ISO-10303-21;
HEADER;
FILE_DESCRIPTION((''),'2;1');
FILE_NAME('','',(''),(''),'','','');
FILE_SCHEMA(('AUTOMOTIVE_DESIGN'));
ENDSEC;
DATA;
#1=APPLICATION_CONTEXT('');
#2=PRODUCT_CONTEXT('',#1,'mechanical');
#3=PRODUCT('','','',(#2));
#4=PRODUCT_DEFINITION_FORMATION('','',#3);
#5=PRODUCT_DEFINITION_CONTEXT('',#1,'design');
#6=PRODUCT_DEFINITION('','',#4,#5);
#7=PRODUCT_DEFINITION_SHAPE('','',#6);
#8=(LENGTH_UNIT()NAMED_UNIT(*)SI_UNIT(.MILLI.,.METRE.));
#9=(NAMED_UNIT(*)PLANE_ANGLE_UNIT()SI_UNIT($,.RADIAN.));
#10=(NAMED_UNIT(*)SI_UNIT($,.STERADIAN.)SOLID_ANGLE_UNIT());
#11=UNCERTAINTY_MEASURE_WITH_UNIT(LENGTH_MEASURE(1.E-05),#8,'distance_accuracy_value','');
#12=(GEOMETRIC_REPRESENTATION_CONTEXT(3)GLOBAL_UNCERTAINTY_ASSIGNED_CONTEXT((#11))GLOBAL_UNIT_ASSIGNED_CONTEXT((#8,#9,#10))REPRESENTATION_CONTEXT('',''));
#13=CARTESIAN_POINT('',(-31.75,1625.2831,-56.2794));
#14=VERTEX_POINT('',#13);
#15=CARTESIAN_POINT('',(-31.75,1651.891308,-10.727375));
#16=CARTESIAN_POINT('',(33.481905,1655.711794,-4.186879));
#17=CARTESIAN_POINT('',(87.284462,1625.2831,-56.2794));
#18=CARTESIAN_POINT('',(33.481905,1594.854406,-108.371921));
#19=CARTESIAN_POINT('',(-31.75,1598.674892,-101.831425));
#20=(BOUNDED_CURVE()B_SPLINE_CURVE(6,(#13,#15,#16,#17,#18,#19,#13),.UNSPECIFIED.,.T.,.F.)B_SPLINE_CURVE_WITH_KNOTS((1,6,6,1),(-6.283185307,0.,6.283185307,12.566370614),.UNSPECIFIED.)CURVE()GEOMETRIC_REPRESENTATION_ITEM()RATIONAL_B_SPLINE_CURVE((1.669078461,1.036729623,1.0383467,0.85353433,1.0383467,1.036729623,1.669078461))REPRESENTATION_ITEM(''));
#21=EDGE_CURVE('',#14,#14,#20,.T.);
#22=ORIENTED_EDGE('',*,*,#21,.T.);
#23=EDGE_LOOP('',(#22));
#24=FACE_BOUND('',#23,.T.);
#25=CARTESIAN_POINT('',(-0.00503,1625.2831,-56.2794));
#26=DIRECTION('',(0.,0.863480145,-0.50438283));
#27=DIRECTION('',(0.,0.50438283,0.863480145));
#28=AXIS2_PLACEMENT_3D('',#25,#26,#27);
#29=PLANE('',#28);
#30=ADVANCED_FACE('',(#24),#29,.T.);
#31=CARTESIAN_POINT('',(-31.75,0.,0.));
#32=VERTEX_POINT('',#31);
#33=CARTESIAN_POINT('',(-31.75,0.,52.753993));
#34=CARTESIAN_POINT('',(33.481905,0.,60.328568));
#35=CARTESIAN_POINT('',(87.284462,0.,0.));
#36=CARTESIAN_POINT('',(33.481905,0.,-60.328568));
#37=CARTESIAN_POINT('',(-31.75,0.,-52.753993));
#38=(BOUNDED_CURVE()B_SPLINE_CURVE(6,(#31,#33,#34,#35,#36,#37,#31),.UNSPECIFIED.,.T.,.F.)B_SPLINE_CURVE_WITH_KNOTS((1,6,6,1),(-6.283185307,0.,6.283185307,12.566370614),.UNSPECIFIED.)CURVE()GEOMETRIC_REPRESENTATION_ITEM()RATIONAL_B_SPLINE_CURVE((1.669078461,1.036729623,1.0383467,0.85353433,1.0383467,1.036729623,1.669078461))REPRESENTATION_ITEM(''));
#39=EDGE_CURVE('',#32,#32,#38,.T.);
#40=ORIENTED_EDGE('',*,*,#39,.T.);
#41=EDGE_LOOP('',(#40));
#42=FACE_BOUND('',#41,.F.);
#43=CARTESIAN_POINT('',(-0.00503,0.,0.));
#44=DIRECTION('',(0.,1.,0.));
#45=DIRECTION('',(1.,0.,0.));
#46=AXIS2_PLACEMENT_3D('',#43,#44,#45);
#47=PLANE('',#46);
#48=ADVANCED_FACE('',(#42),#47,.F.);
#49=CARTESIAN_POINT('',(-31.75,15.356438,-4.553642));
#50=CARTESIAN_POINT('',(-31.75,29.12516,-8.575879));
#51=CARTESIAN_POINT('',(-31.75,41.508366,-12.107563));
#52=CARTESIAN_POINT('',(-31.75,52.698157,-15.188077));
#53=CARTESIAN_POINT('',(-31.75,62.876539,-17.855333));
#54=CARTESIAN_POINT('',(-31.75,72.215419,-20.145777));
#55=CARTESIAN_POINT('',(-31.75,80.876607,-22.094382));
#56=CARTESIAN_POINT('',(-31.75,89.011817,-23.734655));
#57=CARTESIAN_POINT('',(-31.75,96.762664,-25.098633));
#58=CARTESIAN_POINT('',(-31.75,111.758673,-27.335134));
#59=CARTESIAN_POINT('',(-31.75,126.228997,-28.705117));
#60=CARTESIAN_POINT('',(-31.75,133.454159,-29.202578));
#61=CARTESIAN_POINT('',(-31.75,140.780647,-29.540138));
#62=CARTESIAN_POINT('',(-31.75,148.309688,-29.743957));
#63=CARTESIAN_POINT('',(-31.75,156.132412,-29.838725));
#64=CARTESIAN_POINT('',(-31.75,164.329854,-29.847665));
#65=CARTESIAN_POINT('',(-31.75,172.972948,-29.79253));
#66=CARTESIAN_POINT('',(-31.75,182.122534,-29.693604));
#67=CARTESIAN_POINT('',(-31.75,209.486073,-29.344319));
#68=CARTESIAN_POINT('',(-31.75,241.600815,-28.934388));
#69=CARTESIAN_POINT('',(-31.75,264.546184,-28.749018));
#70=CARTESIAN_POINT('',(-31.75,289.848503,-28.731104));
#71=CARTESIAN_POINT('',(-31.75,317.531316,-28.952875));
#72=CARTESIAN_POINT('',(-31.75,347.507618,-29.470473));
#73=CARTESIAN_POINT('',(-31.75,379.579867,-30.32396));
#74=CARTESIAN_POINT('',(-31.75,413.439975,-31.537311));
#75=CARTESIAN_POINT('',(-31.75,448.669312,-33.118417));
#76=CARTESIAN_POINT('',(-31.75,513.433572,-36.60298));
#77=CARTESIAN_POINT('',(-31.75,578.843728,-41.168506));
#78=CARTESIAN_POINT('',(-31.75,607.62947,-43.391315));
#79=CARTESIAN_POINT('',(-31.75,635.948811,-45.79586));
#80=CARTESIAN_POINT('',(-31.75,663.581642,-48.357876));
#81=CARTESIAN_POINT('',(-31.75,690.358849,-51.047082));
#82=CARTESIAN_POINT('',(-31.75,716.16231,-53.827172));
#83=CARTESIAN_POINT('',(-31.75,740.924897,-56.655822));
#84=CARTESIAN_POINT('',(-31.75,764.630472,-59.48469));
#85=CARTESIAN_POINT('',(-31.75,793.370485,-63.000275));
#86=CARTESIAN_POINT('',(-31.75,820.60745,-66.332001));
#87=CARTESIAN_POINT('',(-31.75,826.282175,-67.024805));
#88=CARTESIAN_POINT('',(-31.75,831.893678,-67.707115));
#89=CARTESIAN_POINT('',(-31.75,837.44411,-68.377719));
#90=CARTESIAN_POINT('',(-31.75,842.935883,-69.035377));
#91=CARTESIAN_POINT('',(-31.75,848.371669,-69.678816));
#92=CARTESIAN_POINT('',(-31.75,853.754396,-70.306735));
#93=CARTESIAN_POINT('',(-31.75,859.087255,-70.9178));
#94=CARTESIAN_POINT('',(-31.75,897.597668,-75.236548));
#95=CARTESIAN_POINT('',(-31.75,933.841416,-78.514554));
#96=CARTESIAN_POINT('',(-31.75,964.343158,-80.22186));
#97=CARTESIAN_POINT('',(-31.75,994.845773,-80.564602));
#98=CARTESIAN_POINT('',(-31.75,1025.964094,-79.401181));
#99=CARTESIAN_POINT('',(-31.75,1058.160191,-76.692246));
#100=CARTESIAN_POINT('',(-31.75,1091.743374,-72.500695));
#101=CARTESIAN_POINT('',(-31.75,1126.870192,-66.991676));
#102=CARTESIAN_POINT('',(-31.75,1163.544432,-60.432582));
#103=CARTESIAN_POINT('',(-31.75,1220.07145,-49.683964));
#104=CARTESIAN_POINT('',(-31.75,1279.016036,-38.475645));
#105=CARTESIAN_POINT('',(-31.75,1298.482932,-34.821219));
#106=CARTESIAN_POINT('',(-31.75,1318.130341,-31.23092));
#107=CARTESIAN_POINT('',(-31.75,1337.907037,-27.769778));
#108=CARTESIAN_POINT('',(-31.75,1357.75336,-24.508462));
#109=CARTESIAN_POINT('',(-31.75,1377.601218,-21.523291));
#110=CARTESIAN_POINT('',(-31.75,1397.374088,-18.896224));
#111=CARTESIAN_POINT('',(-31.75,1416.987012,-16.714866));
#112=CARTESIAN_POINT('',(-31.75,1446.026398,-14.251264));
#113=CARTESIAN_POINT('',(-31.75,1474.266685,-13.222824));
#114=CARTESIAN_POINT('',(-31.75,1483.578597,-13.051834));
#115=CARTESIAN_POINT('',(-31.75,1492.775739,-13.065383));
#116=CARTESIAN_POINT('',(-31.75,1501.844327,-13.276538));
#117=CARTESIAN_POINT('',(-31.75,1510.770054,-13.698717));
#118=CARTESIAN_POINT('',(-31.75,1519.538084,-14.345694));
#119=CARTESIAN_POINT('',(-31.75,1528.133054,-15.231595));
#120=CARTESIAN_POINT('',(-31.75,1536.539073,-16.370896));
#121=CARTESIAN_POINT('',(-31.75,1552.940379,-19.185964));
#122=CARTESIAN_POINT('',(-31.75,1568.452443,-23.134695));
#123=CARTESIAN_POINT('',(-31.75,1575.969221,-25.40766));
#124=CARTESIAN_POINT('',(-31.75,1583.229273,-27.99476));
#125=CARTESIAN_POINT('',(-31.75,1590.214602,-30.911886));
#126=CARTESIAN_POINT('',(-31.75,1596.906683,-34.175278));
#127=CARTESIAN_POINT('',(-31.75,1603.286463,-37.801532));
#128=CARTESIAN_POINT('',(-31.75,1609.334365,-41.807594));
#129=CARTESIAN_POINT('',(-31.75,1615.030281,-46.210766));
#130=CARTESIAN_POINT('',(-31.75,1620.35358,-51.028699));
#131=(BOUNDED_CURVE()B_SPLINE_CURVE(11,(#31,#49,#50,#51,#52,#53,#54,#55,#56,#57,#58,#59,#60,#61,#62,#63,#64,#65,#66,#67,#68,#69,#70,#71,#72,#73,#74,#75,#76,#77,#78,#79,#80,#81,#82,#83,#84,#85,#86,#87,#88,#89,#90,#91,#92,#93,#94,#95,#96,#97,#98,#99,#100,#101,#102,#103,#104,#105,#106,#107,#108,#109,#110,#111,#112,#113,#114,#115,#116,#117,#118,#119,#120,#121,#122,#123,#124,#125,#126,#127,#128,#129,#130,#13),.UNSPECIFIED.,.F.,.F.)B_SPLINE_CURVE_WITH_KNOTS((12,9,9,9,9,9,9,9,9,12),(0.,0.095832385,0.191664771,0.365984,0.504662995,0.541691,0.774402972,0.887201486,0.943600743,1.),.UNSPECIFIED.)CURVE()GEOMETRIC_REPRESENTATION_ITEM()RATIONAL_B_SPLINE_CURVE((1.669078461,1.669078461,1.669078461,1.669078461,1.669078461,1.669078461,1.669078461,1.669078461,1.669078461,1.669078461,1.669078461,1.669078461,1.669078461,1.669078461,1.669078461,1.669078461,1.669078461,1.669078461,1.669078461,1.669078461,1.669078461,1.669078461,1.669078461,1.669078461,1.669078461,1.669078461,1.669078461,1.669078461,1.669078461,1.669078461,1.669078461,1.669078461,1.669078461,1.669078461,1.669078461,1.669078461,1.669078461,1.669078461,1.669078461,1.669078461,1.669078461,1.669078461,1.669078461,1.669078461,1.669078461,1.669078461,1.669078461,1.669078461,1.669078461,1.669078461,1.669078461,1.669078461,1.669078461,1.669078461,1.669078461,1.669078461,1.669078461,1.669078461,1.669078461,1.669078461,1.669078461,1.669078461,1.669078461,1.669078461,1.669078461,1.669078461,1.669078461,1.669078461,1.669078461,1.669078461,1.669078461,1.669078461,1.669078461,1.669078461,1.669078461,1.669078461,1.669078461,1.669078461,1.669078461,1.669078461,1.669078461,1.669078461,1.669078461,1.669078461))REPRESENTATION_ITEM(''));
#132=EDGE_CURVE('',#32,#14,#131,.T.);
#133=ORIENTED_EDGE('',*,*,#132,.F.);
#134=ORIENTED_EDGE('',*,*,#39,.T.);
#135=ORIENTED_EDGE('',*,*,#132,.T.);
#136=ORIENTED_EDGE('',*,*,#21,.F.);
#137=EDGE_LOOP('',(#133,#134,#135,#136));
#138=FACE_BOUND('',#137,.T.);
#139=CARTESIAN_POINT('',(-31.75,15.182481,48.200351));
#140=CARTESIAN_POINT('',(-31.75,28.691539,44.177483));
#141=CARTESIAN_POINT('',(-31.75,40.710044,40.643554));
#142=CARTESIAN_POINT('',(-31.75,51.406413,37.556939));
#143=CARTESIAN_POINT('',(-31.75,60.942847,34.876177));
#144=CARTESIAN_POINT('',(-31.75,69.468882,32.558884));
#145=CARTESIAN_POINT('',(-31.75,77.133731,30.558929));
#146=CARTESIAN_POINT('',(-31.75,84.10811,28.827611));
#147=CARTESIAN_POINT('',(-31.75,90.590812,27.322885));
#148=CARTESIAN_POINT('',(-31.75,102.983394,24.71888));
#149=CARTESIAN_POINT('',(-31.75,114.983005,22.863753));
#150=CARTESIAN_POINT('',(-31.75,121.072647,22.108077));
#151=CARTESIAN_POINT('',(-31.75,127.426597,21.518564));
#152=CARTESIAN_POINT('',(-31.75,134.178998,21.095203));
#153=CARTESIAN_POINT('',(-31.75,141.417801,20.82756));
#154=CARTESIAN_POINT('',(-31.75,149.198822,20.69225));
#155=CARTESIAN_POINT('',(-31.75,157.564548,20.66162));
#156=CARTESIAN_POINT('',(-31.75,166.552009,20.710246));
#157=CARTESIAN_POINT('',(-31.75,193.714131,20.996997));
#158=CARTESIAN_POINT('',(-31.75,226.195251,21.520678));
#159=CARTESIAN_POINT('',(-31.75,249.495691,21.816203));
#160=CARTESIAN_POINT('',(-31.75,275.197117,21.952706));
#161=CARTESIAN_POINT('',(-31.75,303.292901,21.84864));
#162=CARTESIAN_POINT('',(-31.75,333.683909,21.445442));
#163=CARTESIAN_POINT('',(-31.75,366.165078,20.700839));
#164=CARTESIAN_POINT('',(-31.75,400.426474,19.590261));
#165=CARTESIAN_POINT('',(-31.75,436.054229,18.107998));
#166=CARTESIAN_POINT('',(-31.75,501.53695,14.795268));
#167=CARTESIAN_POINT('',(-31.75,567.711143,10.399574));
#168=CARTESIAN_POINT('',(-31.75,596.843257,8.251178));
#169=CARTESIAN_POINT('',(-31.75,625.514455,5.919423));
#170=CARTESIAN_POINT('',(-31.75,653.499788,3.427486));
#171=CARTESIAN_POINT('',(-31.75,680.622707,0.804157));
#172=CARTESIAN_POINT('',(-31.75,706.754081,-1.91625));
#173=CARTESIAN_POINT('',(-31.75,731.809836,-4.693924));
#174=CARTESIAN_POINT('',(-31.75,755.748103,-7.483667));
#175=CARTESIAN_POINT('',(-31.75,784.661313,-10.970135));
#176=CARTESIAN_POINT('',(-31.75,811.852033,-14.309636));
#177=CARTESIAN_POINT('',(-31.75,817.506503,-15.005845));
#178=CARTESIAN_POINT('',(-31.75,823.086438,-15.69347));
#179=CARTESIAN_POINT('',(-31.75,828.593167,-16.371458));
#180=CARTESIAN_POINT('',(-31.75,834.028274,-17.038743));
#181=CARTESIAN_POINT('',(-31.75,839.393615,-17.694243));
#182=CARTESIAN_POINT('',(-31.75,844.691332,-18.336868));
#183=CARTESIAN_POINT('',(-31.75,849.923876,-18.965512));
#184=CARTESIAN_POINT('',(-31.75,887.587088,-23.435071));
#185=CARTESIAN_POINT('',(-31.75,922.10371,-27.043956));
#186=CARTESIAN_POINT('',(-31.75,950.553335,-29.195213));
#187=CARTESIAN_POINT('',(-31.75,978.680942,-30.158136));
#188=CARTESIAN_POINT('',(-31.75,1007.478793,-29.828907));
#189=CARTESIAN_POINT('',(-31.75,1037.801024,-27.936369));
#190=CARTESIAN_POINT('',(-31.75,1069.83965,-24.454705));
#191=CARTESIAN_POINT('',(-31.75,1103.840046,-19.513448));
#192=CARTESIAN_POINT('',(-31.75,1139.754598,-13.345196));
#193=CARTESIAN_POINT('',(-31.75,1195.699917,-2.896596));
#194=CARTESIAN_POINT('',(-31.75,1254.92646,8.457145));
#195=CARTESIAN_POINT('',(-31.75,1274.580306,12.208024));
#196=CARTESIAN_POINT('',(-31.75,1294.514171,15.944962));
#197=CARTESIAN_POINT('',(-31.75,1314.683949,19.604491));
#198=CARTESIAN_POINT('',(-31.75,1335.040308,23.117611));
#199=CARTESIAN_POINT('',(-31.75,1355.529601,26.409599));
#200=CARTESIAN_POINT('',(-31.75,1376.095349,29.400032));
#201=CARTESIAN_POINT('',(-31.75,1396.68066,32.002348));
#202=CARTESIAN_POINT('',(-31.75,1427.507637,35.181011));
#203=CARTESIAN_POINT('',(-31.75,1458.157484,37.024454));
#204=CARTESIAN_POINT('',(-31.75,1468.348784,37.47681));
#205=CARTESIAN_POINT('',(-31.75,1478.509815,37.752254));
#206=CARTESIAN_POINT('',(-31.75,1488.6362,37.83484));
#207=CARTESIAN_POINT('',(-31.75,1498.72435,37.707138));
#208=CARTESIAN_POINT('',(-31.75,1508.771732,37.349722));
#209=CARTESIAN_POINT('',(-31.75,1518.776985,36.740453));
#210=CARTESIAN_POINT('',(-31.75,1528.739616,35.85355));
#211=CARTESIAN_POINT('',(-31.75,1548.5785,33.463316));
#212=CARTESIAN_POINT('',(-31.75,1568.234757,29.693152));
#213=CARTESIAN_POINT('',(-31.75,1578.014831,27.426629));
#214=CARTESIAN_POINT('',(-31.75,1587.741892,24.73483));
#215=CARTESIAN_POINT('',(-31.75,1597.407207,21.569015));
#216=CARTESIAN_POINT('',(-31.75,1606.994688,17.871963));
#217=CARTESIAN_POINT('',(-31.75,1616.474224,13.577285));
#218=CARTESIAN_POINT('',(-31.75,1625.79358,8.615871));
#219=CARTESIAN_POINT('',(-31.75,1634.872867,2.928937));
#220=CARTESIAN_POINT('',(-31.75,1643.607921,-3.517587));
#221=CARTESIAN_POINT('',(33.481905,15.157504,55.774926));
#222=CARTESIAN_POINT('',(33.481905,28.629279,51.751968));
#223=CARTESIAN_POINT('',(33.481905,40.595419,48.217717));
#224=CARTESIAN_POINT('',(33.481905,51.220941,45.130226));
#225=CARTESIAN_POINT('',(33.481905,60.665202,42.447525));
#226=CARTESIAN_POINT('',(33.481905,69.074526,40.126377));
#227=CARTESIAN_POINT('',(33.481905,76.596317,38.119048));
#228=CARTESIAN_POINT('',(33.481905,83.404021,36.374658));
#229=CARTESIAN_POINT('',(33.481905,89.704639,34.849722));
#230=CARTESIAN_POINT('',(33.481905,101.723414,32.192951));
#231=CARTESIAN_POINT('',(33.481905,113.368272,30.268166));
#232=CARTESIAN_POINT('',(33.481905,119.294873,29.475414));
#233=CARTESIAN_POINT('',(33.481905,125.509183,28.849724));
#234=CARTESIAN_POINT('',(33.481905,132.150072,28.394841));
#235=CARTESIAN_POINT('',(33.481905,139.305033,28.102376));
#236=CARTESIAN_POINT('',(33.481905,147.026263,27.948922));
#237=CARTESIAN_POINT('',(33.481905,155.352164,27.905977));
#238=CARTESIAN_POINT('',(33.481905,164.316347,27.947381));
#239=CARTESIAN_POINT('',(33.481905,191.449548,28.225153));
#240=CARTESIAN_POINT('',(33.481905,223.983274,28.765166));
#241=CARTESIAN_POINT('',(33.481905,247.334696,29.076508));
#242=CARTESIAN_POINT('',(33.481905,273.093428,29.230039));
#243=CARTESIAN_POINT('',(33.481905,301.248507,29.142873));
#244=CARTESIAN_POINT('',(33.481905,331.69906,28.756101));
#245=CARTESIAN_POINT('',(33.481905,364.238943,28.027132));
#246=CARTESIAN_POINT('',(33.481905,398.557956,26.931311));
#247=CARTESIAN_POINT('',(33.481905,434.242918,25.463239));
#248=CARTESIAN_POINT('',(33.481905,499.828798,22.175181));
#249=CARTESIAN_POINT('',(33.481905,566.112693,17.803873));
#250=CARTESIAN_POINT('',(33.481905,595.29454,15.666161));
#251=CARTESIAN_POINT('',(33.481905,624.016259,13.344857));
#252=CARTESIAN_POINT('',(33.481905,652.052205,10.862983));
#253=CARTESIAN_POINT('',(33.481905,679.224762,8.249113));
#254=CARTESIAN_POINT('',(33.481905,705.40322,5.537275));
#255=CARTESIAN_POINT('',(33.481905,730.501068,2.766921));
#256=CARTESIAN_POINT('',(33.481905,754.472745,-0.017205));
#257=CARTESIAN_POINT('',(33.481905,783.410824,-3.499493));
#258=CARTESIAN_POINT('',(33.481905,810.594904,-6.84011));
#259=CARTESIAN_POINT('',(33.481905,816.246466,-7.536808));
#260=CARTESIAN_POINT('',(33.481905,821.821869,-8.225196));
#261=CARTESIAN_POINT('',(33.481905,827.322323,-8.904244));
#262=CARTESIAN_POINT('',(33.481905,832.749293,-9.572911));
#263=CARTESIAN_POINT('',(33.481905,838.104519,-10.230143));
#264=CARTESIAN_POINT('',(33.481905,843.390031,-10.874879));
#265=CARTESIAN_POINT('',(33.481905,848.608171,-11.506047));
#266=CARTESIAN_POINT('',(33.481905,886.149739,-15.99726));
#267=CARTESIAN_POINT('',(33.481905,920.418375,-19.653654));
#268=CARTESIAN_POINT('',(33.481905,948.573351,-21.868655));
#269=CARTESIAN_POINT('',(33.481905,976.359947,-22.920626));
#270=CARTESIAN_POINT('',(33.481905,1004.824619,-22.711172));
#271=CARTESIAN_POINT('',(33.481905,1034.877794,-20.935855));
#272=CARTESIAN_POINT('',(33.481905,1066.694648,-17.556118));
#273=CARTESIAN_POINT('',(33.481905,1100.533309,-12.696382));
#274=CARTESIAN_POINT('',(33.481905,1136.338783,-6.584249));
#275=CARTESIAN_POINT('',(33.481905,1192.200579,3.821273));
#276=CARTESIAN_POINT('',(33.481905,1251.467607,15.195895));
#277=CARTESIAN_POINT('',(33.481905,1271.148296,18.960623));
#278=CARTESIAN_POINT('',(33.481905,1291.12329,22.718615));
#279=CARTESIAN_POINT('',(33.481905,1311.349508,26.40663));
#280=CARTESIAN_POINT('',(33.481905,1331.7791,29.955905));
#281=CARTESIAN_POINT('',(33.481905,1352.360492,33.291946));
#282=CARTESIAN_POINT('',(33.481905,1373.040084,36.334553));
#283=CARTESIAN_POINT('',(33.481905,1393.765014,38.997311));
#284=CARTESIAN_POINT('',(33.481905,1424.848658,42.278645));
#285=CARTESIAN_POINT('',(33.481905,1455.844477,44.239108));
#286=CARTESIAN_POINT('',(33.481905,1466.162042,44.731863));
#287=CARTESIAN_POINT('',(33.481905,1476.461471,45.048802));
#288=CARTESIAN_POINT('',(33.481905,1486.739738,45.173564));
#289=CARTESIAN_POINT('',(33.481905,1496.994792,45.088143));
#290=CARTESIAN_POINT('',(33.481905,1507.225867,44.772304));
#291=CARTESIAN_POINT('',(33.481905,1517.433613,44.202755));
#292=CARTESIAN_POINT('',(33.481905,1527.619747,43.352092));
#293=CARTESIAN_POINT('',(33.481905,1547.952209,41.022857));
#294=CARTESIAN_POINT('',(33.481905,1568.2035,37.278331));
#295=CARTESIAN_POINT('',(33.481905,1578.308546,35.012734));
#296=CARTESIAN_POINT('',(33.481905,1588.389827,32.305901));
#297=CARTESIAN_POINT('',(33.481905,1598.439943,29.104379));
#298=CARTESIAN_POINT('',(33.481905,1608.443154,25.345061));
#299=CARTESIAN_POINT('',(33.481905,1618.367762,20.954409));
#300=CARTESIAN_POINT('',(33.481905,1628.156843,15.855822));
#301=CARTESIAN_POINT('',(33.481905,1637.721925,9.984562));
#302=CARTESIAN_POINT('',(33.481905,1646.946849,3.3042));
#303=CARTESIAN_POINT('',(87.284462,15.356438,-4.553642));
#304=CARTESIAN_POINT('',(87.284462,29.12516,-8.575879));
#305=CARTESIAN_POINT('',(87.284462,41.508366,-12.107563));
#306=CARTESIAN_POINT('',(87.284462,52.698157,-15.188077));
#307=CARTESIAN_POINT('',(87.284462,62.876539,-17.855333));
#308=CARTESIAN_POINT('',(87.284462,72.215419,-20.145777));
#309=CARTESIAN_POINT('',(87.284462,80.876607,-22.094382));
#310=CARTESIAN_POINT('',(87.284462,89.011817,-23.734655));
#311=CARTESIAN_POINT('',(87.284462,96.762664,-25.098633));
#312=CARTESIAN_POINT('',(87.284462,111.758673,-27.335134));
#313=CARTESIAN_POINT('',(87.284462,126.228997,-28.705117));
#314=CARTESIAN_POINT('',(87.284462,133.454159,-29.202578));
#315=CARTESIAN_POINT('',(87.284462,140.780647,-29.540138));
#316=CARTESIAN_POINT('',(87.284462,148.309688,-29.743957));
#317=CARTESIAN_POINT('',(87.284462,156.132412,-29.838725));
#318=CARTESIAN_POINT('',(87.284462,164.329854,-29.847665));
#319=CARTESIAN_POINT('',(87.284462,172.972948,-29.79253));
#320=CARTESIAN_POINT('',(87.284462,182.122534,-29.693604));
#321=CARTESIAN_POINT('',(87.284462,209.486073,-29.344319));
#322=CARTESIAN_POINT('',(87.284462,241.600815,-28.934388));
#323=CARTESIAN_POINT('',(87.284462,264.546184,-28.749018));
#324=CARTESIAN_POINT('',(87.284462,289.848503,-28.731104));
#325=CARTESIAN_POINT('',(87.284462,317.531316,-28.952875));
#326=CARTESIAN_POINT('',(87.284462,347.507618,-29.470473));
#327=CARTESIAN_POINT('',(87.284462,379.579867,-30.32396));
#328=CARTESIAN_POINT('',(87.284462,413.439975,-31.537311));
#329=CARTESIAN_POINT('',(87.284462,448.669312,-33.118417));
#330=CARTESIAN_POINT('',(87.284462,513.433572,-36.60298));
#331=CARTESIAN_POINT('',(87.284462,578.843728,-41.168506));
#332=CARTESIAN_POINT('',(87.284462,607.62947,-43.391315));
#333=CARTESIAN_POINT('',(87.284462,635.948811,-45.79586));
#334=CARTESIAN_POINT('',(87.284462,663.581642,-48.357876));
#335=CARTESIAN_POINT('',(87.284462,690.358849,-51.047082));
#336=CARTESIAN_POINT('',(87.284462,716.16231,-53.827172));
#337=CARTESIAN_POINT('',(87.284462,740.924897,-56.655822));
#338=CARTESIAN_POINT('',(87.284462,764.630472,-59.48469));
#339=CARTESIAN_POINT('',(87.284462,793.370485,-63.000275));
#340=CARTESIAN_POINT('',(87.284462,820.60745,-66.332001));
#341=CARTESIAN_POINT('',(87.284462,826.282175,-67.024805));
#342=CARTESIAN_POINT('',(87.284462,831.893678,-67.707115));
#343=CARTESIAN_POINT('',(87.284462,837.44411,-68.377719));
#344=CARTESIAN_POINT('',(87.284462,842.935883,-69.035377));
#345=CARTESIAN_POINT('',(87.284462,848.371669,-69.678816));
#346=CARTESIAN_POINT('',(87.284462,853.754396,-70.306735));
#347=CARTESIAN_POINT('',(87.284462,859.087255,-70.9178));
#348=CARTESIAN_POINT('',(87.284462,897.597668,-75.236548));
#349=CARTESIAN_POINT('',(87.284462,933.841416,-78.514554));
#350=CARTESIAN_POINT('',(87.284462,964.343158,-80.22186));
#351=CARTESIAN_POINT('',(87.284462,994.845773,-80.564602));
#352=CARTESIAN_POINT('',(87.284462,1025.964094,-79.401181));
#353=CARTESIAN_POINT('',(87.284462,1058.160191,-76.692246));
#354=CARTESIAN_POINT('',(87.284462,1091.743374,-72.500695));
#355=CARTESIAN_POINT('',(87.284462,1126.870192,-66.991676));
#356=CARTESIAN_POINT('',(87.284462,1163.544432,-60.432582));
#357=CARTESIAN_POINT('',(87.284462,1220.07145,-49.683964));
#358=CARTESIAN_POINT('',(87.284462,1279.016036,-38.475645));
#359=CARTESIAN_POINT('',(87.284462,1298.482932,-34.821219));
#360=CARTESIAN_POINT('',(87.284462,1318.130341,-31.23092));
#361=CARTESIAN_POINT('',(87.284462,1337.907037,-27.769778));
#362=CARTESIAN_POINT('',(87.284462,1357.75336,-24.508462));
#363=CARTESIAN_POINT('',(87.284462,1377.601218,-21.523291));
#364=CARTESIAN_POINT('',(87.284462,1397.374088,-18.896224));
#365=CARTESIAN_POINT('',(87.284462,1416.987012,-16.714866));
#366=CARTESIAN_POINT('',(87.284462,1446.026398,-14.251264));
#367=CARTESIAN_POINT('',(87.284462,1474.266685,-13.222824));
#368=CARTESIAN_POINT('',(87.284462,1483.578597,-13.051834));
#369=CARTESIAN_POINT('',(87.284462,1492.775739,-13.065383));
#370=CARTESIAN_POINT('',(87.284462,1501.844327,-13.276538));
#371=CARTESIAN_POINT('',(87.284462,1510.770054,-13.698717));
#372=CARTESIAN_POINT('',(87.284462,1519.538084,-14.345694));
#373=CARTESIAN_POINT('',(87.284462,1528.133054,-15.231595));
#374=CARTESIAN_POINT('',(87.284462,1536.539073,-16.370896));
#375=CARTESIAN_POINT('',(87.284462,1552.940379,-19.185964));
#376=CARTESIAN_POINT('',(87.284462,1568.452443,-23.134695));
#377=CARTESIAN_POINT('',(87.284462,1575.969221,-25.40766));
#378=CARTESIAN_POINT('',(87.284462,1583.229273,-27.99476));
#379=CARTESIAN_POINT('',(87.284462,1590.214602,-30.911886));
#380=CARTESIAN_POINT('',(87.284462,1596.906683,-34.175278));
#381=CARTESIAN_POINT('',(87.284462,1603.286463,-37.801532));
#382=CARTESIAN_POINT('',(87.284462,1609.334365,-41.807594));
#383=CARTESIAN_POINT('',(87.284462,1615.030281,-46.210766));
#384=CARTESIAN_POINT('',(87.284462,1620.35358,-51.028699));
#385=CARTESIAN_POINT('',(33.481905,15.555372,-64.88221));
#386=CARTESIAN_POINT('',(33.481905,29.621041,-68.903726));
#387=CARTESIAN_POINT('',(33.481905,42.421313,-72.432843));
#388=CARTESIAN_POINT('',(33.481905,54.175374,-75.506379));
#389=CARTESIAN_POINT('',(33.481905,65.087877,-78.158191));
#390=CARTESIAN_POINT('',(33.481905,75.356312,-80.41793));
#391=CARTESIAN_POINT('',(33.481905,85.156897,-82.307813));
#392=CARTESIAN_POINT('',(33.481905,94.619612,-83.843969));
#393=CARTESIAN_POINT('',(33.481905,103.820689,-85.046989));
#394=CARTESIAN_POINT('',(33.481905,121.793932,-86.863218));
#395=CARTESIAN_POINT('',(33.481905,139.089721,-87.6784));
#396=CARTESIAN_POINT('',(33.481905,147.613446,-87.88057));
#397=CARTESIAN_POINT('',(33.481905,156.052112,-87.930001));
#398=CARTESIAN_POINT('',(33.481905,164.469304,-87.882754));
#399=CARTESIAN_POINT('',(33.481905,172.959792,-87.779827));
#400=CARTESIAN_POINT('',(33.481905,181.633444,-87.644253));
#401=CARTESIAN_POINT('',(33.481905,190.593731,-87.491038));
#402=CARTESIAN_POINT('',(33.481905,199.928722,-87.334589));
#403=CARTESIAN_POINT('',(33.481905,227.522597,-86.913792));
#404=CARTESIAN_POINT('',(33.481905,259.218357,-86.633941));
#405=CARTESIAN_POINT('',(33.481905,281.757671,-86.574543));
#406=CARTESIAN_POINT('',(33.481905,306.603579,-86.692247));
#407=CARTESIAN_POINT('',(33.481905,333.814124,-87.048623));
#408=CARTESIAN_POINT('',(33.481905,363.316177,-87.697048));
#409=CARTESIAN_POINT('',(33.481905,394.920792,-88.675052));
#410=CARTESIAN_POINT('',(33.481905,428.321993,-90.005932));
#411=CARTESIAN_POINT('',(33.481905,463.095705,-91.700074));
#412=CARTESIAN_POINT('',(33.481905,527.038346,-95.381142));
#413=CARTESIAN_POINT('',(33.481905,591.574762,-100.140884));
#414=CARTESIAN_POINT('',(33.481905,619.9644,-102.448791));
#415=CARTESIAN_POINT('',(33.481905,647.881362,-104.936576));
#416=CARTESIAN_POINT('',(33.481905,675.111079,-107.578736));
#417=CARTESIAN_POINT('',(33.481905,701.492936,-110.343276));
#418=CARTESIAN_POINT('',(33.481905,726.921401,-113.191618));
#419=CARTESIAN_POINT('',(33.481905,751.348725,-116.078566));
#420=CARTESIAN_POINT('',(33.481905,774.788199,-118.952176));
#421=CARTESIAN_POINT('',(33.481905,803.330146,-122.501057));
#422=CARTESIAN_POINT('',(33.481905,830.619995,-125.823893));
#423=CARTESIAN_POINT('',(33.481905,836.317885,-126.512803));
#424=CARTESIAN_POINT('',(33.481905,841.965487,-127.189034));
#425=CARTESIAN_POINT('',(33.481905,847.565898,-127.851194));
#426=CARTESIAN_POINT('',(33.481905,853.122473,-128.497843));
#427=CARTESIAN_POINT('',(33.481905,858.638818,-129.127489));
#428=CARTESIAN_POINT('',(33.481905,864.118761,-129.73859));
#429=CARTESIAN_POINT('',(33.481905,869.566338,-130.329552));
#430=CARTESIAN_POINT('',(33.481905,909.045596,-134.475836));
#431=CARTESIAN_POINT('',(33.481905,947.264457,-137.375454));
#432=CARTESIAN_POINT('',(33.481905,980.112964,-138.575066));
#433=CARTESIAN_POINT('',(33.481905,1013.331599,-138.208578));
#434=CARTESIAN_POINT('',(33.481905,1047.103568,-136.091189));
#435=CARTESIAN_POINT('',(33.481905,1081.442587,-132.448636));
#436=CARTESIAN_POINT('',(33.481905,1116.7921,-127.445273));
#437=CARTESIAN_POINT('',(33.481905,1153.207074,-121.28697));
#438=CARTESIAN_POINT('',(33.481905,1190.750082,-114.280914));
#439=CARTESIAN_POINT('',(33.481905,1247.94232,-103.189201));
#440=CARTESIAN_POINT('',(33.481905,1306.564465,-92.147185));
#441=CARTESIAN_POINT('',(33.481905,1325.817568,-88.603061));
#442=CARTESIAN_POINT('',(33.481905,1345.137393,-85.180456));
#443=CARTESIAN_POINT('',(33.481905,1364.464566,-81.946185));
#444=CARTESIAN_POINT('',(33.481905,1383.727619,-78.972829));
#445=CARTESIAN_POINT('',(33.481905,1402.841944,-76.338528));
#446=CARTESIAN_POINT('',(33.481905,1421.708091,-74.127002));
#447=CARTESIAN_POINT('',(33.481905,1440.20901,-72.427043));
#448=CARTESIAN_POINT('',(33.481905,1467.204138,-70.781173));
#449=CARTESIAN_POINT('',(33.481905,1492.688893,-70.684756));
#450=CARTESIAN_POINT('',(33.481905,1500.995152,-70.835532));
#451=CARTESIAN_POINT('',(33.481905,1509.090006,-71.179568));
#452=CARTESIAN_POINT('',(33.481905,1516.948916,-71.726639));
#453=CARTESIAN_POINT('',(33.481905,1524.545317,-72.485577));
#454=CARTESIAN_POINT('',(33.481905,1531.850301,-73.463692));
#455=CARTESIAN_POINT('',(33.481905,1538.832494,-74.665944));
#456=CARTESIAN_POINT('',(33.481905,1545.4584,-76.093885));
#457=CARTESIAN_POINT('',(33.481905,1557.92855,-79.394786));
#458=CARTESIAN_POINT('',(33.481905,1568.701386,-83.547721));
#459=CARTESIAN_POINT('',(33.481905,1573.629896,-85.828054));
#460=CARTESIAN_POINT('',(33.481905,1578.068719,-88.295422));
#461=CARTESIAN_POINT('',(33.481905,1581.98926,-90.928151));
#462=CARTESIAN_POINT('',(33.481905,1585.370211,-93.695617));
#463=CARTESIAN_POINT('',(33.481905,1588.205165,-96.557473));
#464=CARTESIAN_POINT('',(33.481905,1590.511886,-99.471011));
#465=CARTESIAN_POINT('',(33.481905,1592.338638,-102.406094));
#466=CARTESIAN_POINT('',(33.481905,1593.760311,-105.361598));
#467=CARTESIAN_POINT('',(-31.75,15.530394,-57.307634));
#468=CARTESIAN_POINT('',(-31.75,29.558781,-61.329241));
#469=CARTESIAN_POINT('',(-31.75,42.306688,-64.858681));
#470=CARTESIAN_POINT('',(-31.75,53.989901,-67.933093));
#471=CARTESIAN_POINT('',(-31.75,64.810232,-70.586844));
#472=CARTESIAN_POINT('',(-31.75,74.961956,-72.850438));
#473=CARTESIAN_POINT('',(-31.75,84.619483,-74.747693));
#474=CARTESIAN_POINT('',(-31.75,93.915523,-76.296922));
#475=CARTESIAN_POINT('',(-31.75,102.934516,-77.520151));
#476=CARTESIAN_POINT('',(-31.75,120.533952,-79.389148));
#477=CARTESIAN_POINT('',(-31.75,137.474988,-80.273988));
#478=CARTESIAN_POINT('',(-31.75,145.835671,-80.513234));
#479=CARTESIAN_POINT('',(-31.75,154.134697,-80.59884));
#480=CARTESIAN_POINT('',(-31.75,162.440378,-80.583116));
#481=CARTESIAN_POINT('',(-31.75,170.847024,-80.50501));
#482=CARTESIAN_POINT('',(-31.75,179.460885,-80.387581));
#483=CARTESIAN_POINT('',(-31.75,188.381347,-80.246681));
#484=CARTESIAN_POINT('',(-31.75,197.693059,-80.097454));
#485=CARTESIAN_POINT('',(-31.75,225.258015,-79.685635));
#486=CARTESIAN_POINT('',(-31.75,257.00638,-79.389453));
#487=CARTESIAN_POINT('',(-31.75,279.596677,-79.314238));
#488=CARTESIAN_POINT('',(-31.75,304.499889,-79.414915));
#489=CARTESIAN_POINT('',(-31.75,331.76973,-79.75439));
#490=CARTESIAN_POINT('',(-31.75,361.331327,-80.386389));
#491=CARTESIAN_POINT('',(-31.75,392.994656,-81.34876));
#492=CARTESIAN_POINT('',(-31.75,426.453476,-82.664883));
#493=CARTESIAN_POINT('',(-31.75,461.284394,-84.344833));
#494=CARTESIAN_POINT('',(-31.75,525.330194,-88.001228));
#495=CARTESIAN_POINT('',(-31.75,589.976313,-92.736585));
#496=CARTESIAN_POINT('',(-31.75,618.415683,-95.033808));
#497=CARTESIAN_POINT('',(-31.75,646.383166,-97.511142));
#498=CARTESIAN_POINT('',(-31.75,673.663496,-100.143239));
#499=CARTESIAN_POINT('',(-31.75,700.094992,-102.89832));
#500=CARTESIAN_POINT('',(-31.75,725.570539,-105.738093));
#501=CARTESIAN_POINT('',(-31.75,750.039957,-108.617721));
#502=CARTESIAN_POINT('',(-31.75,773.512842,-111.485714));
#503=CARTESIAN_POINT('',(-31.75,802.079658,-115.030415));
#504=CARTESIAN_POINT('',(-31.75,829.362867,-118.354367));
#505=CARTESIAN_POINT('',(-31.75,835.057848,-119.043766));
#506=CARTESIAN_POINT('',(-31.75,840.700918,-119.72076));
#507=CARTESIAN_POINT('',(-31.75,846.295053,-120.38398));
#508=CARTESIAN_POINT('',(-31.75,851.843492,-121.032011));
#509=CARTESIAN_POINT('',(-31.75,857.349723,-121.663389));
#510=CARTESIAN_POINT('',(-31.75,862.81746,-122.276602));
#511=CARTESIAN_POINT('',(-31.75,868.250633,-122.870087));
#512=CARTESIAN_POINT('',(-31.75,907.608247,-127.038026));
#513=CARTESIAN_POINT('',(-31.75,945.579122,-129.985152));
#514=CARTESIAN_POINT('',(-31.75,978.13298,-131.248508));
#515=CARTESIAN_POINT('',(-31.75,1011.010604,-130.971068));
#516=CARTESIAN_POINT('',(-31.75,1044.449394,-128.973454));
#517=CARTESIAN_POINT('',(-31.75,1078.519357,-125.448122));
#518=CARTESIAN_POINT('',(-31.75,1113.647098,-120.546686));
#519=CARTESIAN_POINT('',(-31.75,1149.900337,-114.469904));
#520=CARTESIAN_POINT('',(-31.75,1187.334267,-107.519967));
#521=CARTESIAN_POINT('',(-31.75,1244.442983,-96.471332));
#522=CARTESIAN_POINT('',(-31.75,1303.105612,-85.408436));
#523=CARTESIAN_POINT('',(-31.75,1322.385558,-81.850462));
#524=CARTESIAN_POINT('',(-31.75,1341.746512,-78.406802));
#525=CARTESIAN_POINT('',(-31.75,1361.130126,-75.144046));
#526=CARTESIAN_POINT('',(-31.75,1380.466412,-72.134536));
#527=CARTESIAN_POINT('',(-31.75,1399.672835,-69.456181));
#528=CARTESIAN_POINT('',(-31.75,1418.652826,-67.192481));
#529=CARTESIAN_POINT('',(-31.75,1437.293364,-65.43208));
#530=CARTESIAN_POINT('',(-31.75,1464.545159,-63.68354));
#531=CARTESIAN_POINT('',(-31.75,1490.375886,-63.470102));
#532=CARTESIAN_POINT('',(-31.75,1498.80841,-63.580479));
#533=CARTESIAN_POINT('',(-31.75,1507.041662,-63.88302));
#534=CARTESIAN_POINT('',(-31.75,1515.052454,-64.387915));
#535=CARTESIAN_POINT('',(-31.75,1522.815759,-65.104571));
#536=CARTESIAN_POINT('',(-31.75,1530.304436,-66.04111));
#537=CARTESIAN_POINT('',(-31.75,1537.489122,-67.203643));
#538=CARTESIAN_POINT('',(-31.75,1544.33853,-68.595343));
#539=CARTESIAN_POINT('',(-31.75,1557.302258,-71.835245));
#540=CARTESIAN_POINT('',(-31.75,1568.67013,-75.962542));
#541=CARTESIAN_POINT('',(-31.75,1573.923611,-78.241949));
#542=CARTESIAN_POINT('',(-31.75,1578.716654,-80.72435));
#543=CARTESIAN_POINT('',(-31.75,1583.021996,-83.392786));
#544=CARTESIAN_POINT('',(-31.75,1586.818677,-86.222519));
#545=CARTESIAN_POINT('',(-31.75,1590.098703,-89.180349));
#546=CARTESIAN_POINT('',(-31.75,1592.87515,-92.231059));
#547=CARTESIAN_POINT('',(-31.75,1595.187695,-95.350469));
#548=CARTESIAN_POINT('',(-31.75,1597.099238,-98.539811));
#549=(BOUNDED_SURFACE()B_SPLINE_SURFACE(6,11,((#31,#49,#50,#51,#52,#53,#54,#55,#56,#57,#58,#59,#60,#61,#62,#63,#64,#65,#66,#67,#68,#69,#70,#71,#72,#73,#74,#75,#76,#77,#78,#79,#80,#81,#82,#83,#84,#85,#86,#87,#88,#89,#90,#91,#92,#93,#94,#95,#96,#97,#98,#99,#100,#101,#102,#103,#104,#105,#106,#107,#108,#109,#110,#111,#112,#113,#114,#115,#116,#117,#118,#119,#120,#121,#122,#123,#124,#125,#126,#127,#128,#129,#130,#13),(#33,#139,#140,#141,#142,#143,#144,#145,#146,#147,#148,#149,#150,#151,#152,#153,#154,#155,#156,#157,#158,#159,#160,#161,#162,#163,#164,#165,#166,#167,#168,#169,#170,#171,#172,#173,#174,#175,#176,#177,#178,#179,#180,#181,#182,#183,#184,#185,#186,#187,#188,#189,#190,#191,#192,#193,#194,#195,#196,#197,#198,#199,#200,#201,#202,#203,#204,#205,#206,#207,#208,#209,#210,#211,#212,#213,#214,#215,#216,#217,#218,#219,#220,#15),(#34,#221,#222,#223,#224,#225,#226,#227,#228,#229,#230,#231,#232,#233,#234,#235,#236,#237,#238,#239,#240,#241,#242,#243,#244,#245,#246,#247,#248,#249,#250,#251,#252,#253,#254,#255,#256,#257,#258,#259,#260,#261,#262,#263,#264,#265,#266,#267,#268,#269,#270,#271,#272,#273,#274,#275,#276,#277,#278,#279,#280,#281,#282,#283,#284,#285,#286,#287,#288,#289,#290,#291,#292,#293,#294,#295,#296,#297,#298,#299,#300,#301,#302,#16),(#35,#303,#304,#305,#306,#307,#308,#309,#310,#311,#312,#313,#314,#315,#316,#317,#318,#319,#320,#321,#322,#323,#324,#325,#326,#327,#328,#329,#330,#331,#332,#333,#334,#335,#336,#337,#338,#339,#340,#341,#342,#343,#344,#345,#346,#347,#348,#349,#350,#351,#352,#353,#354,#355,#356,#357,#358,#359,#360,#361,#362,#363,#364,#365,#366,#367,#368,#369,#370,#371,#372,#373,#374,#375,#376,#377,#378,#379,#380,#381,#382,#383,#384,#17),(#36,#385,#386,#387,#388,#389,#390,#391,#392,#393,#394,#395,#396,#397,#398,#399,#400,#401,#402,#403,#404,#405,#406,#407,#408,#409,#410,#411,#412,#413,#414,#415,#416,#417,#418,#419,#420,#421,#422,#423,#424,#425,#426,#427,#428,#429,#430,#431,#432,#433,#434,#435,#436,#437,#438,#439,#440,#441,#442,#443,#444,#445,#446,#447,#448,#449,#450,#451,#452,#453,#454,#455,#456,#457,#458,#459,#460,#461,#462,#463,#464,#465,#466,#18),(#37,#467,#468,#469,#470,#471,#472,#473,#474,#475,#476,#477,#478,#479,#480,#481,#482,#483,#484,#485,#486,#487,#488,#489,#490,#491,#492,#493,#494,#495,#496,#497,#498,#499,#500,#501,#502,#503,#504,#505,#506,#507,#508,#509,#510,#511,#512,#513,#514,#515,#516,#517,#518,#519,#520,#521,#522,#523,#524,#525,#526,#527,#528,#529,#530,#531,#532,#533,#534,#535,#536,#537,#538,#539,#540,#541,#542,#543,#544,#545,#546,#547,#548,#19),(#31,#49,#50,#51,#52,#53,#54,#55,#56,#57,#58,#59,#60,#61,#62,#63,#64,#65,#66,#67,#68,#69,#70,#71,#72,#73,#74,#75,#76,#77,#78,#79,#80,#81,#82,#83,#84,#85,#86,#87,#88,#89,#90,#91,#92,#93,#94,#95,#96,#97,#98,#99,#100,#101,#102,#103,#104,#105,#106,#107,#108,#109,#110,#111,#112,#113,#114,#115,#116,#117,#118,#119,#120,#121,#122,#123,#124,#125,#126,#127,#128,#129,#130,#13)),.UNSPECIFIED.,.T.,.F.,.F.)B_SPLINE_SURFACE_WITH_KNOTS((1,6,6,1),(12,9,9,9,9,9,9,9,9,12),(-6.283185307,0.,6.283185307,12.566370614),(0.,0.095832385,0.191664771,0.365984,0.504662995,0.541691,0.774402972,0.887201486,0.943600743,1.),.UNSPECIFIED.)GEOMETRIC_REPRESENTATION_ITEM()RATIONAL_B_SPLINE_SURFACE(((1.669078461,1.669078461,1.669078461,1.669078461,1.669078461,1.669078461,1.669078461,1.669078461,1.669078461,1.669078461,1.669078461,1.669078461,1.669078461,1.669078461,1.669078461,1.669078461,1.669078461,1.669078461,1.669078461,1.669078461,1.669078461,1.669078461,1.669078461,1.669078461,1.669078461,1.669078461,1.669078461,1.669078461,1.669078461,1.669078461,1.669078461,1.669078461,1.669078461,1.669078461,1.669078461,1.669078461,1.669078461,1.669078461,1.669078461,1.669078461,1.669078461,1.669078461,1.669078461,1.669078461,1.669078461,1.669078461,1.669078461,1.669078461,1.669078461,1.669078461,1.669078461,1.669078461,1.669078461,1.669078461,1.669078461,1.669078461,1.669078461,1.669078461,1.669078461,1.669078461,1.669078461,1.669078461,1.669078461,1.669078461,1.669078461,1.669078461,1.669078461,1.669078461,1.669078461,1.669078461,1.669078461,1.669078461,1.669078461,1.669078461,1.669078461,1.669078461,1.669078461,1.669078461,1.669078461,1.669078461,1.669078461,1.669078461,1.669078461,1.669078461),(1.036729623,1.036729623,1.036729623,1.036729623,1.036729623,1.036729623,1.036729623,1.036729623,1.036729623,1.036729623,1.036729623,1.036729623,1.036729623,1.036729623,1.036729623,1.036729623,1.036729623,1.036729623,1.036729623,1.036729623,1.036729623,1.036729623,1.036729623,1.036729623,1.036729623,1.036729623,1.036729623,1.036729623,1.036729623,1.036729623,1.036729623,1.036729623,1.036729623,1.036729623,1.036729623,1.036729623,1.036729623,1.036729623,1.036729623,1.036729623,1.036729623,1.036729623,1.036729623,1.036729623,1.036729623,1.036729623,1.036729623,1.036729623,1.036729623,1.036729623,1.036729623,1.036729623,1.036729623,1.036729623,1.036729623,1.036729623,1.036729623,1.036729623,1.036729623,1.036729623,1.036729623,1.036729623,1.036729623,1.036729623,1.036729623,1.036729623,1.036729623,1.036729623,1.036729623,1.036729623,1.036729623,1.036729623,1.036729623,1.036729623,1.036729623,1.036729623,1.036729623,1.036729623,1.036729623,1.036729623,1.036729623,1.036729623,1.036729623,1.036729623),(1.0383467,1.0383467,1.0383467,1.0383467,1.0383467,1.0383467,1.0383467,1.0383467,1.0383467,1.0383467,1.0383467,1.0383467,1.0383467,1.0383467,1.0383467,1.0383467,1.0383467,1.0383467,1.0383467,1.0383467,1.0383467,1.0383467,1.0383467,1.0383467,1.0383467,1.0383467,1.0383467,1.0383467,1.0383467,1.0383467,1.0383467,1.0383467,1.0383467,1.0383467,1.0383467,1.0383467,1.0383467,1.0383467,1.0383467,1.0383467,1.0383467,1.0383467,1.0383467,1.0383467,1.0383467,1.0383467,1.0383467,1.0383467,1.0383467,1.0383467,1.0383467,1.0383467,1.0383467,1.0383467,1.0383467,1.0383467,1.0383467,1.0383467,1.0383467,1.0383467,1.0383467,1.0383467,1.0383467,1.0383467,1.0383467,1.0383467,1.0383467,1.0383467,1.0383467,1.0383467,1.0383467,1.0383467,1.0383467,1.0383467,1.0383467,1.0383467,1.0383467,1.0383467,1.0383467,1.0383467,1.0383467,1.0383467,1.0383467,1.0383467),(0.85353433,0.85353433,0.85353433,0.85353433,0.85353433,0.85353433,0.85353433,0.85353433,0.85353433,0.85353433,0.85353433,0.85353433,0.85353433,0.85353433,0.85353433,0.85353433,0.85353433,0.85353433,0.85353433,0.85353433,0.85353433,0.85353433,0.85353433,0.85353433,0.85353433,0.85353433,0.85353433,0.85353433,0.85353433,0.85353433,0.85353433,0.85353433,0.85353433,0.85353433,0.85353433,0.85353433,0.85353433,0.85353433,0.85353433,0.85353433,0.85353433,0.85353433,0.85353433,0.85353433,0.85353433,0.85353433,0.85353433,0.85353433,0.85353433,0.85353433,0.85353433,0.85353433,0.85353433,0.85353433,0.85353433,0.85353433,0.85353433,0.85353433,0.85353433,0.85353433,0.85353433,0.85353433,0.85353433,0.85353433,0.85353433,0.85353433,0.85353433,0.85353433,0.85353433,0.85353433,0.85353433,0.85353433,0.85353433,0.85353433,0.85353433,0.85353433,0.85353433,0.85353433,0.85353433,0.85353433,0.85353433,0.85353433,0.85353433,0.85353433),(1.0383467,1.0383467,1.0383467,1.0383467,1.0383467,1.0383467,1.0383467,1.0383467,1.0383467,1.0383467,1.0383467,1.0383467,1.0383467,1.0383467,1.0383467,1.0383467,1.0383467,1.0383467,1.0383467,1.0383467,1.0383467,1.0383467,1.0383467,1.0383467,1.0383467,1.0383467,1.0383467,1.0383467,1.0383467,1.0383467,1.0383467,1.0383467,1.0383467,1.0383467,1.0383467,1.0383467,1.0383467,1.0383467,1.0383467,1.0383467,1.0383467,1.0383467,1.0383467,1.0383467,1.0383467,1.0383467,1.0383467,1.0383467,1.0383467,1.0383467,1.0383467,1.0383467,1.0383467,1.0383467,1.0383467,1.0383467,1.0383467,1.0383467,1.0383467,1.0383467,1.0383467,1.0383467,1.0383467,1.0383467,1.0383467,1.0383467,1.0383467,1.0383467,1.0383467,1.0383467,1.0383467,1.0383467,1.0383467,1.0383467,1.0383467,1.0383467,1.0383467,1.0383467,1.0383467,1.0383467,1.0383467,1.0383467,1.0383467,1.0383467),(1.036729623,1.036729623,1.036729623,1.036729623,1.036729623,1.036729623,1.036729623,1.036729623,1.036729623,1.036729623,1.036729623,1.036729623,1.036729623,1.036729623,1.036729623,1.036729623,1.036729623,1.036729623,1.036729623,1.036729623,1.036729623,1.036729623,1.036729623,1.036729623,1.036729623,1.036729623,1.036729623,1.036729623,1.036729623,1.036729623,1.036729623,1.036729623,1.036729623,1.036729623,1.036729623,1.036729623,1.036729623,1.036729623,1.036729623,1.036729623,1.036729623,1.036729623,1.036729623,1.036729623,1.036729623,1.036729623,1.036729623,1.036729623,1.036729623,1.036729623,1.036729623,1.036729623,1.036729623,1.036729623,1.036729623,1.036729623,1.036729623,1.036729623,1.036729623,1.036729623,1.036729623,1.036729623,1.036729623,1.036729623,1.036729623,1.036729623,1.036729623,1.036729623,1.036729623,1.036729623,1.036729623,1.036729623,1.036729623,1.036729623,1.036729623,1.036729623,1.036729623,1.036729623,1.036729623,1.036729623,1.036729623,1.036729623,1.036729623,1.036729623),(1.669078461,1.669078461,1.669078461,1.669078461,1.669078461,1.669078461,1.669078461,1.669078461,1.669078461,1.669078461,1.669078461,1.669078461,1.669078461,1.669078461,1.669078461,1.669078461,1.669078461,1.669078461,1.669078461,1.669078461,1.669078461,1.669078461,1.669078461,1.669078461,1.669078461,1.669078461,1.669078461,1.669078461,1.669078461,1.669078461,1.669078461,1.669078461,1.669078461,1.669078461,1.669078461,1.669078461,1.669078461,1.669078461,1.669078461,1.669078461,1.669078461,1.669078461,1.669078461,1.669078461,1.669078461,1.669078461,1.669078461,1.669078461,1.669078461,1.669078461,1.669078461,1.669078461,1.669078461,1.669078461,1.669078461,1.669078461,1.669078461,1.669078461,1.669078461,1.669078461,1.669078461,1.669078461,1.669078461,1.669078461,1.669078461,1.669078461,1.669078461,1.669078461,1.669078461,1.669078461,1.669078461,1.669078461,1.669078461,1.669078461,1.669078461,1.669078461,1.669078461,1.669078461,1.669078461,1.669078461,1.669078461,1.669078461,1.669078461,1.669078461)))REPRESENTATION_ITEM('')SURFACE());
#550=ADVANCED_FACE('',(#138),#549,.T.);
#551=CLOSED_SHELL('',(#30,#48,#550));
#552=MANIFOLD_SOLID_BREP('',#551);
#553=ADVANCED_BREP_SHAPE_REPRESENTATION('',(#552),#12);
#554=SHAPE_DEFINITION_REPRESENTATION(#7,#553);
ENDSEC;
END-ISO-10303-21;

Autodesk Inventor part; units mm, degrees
ref_plane "YZ Plane" through (0, 0, 0) normal (1, 0, 0) x (0, 1, 0)
ref_plane "XZ Plane" through (0, 0, 0) normal (0, 1, 0) x (-1, 0, 0)
ref_plane "XY Plane" through (0, 0, 0) normal (0, 0, 1) x (1, 0, 0)
sketch "Sketch1" plane through (0, 0, 0) normal (0, 1, 0) x (-1, 0, 0)
  circle A0 centre (0, 0) radius 31.75
  dimension "d0" = 63.5
sketch "Sketch2" plane through (0, 0, 0) normal (1, 0, 0) x (0, 1, 0)
  spline S0 degree 4 poles (0, 0) (161.2772, -47.8235) (85.8066, -13.4528) (966.837, -42.269) (1032.9883, -139.0121) (1515.1235, 61.0576) (1625.2831, -56.2794) knots 0 0 0 0 0 0.365984 0.541691 1 1 1 1 1
  point P0 (131.9755, -28.9407)
  point P1 (271.8806, -28.9408)
  point P2 (736.4269, -56.2793)
  point P3 (1010.7652, -78.2264)
  point P4 (1332.6555, -28.9408)
sweep "Sweep1" add profiles "Sketch1" path "Sketch2"
properties part number "stick_1"
